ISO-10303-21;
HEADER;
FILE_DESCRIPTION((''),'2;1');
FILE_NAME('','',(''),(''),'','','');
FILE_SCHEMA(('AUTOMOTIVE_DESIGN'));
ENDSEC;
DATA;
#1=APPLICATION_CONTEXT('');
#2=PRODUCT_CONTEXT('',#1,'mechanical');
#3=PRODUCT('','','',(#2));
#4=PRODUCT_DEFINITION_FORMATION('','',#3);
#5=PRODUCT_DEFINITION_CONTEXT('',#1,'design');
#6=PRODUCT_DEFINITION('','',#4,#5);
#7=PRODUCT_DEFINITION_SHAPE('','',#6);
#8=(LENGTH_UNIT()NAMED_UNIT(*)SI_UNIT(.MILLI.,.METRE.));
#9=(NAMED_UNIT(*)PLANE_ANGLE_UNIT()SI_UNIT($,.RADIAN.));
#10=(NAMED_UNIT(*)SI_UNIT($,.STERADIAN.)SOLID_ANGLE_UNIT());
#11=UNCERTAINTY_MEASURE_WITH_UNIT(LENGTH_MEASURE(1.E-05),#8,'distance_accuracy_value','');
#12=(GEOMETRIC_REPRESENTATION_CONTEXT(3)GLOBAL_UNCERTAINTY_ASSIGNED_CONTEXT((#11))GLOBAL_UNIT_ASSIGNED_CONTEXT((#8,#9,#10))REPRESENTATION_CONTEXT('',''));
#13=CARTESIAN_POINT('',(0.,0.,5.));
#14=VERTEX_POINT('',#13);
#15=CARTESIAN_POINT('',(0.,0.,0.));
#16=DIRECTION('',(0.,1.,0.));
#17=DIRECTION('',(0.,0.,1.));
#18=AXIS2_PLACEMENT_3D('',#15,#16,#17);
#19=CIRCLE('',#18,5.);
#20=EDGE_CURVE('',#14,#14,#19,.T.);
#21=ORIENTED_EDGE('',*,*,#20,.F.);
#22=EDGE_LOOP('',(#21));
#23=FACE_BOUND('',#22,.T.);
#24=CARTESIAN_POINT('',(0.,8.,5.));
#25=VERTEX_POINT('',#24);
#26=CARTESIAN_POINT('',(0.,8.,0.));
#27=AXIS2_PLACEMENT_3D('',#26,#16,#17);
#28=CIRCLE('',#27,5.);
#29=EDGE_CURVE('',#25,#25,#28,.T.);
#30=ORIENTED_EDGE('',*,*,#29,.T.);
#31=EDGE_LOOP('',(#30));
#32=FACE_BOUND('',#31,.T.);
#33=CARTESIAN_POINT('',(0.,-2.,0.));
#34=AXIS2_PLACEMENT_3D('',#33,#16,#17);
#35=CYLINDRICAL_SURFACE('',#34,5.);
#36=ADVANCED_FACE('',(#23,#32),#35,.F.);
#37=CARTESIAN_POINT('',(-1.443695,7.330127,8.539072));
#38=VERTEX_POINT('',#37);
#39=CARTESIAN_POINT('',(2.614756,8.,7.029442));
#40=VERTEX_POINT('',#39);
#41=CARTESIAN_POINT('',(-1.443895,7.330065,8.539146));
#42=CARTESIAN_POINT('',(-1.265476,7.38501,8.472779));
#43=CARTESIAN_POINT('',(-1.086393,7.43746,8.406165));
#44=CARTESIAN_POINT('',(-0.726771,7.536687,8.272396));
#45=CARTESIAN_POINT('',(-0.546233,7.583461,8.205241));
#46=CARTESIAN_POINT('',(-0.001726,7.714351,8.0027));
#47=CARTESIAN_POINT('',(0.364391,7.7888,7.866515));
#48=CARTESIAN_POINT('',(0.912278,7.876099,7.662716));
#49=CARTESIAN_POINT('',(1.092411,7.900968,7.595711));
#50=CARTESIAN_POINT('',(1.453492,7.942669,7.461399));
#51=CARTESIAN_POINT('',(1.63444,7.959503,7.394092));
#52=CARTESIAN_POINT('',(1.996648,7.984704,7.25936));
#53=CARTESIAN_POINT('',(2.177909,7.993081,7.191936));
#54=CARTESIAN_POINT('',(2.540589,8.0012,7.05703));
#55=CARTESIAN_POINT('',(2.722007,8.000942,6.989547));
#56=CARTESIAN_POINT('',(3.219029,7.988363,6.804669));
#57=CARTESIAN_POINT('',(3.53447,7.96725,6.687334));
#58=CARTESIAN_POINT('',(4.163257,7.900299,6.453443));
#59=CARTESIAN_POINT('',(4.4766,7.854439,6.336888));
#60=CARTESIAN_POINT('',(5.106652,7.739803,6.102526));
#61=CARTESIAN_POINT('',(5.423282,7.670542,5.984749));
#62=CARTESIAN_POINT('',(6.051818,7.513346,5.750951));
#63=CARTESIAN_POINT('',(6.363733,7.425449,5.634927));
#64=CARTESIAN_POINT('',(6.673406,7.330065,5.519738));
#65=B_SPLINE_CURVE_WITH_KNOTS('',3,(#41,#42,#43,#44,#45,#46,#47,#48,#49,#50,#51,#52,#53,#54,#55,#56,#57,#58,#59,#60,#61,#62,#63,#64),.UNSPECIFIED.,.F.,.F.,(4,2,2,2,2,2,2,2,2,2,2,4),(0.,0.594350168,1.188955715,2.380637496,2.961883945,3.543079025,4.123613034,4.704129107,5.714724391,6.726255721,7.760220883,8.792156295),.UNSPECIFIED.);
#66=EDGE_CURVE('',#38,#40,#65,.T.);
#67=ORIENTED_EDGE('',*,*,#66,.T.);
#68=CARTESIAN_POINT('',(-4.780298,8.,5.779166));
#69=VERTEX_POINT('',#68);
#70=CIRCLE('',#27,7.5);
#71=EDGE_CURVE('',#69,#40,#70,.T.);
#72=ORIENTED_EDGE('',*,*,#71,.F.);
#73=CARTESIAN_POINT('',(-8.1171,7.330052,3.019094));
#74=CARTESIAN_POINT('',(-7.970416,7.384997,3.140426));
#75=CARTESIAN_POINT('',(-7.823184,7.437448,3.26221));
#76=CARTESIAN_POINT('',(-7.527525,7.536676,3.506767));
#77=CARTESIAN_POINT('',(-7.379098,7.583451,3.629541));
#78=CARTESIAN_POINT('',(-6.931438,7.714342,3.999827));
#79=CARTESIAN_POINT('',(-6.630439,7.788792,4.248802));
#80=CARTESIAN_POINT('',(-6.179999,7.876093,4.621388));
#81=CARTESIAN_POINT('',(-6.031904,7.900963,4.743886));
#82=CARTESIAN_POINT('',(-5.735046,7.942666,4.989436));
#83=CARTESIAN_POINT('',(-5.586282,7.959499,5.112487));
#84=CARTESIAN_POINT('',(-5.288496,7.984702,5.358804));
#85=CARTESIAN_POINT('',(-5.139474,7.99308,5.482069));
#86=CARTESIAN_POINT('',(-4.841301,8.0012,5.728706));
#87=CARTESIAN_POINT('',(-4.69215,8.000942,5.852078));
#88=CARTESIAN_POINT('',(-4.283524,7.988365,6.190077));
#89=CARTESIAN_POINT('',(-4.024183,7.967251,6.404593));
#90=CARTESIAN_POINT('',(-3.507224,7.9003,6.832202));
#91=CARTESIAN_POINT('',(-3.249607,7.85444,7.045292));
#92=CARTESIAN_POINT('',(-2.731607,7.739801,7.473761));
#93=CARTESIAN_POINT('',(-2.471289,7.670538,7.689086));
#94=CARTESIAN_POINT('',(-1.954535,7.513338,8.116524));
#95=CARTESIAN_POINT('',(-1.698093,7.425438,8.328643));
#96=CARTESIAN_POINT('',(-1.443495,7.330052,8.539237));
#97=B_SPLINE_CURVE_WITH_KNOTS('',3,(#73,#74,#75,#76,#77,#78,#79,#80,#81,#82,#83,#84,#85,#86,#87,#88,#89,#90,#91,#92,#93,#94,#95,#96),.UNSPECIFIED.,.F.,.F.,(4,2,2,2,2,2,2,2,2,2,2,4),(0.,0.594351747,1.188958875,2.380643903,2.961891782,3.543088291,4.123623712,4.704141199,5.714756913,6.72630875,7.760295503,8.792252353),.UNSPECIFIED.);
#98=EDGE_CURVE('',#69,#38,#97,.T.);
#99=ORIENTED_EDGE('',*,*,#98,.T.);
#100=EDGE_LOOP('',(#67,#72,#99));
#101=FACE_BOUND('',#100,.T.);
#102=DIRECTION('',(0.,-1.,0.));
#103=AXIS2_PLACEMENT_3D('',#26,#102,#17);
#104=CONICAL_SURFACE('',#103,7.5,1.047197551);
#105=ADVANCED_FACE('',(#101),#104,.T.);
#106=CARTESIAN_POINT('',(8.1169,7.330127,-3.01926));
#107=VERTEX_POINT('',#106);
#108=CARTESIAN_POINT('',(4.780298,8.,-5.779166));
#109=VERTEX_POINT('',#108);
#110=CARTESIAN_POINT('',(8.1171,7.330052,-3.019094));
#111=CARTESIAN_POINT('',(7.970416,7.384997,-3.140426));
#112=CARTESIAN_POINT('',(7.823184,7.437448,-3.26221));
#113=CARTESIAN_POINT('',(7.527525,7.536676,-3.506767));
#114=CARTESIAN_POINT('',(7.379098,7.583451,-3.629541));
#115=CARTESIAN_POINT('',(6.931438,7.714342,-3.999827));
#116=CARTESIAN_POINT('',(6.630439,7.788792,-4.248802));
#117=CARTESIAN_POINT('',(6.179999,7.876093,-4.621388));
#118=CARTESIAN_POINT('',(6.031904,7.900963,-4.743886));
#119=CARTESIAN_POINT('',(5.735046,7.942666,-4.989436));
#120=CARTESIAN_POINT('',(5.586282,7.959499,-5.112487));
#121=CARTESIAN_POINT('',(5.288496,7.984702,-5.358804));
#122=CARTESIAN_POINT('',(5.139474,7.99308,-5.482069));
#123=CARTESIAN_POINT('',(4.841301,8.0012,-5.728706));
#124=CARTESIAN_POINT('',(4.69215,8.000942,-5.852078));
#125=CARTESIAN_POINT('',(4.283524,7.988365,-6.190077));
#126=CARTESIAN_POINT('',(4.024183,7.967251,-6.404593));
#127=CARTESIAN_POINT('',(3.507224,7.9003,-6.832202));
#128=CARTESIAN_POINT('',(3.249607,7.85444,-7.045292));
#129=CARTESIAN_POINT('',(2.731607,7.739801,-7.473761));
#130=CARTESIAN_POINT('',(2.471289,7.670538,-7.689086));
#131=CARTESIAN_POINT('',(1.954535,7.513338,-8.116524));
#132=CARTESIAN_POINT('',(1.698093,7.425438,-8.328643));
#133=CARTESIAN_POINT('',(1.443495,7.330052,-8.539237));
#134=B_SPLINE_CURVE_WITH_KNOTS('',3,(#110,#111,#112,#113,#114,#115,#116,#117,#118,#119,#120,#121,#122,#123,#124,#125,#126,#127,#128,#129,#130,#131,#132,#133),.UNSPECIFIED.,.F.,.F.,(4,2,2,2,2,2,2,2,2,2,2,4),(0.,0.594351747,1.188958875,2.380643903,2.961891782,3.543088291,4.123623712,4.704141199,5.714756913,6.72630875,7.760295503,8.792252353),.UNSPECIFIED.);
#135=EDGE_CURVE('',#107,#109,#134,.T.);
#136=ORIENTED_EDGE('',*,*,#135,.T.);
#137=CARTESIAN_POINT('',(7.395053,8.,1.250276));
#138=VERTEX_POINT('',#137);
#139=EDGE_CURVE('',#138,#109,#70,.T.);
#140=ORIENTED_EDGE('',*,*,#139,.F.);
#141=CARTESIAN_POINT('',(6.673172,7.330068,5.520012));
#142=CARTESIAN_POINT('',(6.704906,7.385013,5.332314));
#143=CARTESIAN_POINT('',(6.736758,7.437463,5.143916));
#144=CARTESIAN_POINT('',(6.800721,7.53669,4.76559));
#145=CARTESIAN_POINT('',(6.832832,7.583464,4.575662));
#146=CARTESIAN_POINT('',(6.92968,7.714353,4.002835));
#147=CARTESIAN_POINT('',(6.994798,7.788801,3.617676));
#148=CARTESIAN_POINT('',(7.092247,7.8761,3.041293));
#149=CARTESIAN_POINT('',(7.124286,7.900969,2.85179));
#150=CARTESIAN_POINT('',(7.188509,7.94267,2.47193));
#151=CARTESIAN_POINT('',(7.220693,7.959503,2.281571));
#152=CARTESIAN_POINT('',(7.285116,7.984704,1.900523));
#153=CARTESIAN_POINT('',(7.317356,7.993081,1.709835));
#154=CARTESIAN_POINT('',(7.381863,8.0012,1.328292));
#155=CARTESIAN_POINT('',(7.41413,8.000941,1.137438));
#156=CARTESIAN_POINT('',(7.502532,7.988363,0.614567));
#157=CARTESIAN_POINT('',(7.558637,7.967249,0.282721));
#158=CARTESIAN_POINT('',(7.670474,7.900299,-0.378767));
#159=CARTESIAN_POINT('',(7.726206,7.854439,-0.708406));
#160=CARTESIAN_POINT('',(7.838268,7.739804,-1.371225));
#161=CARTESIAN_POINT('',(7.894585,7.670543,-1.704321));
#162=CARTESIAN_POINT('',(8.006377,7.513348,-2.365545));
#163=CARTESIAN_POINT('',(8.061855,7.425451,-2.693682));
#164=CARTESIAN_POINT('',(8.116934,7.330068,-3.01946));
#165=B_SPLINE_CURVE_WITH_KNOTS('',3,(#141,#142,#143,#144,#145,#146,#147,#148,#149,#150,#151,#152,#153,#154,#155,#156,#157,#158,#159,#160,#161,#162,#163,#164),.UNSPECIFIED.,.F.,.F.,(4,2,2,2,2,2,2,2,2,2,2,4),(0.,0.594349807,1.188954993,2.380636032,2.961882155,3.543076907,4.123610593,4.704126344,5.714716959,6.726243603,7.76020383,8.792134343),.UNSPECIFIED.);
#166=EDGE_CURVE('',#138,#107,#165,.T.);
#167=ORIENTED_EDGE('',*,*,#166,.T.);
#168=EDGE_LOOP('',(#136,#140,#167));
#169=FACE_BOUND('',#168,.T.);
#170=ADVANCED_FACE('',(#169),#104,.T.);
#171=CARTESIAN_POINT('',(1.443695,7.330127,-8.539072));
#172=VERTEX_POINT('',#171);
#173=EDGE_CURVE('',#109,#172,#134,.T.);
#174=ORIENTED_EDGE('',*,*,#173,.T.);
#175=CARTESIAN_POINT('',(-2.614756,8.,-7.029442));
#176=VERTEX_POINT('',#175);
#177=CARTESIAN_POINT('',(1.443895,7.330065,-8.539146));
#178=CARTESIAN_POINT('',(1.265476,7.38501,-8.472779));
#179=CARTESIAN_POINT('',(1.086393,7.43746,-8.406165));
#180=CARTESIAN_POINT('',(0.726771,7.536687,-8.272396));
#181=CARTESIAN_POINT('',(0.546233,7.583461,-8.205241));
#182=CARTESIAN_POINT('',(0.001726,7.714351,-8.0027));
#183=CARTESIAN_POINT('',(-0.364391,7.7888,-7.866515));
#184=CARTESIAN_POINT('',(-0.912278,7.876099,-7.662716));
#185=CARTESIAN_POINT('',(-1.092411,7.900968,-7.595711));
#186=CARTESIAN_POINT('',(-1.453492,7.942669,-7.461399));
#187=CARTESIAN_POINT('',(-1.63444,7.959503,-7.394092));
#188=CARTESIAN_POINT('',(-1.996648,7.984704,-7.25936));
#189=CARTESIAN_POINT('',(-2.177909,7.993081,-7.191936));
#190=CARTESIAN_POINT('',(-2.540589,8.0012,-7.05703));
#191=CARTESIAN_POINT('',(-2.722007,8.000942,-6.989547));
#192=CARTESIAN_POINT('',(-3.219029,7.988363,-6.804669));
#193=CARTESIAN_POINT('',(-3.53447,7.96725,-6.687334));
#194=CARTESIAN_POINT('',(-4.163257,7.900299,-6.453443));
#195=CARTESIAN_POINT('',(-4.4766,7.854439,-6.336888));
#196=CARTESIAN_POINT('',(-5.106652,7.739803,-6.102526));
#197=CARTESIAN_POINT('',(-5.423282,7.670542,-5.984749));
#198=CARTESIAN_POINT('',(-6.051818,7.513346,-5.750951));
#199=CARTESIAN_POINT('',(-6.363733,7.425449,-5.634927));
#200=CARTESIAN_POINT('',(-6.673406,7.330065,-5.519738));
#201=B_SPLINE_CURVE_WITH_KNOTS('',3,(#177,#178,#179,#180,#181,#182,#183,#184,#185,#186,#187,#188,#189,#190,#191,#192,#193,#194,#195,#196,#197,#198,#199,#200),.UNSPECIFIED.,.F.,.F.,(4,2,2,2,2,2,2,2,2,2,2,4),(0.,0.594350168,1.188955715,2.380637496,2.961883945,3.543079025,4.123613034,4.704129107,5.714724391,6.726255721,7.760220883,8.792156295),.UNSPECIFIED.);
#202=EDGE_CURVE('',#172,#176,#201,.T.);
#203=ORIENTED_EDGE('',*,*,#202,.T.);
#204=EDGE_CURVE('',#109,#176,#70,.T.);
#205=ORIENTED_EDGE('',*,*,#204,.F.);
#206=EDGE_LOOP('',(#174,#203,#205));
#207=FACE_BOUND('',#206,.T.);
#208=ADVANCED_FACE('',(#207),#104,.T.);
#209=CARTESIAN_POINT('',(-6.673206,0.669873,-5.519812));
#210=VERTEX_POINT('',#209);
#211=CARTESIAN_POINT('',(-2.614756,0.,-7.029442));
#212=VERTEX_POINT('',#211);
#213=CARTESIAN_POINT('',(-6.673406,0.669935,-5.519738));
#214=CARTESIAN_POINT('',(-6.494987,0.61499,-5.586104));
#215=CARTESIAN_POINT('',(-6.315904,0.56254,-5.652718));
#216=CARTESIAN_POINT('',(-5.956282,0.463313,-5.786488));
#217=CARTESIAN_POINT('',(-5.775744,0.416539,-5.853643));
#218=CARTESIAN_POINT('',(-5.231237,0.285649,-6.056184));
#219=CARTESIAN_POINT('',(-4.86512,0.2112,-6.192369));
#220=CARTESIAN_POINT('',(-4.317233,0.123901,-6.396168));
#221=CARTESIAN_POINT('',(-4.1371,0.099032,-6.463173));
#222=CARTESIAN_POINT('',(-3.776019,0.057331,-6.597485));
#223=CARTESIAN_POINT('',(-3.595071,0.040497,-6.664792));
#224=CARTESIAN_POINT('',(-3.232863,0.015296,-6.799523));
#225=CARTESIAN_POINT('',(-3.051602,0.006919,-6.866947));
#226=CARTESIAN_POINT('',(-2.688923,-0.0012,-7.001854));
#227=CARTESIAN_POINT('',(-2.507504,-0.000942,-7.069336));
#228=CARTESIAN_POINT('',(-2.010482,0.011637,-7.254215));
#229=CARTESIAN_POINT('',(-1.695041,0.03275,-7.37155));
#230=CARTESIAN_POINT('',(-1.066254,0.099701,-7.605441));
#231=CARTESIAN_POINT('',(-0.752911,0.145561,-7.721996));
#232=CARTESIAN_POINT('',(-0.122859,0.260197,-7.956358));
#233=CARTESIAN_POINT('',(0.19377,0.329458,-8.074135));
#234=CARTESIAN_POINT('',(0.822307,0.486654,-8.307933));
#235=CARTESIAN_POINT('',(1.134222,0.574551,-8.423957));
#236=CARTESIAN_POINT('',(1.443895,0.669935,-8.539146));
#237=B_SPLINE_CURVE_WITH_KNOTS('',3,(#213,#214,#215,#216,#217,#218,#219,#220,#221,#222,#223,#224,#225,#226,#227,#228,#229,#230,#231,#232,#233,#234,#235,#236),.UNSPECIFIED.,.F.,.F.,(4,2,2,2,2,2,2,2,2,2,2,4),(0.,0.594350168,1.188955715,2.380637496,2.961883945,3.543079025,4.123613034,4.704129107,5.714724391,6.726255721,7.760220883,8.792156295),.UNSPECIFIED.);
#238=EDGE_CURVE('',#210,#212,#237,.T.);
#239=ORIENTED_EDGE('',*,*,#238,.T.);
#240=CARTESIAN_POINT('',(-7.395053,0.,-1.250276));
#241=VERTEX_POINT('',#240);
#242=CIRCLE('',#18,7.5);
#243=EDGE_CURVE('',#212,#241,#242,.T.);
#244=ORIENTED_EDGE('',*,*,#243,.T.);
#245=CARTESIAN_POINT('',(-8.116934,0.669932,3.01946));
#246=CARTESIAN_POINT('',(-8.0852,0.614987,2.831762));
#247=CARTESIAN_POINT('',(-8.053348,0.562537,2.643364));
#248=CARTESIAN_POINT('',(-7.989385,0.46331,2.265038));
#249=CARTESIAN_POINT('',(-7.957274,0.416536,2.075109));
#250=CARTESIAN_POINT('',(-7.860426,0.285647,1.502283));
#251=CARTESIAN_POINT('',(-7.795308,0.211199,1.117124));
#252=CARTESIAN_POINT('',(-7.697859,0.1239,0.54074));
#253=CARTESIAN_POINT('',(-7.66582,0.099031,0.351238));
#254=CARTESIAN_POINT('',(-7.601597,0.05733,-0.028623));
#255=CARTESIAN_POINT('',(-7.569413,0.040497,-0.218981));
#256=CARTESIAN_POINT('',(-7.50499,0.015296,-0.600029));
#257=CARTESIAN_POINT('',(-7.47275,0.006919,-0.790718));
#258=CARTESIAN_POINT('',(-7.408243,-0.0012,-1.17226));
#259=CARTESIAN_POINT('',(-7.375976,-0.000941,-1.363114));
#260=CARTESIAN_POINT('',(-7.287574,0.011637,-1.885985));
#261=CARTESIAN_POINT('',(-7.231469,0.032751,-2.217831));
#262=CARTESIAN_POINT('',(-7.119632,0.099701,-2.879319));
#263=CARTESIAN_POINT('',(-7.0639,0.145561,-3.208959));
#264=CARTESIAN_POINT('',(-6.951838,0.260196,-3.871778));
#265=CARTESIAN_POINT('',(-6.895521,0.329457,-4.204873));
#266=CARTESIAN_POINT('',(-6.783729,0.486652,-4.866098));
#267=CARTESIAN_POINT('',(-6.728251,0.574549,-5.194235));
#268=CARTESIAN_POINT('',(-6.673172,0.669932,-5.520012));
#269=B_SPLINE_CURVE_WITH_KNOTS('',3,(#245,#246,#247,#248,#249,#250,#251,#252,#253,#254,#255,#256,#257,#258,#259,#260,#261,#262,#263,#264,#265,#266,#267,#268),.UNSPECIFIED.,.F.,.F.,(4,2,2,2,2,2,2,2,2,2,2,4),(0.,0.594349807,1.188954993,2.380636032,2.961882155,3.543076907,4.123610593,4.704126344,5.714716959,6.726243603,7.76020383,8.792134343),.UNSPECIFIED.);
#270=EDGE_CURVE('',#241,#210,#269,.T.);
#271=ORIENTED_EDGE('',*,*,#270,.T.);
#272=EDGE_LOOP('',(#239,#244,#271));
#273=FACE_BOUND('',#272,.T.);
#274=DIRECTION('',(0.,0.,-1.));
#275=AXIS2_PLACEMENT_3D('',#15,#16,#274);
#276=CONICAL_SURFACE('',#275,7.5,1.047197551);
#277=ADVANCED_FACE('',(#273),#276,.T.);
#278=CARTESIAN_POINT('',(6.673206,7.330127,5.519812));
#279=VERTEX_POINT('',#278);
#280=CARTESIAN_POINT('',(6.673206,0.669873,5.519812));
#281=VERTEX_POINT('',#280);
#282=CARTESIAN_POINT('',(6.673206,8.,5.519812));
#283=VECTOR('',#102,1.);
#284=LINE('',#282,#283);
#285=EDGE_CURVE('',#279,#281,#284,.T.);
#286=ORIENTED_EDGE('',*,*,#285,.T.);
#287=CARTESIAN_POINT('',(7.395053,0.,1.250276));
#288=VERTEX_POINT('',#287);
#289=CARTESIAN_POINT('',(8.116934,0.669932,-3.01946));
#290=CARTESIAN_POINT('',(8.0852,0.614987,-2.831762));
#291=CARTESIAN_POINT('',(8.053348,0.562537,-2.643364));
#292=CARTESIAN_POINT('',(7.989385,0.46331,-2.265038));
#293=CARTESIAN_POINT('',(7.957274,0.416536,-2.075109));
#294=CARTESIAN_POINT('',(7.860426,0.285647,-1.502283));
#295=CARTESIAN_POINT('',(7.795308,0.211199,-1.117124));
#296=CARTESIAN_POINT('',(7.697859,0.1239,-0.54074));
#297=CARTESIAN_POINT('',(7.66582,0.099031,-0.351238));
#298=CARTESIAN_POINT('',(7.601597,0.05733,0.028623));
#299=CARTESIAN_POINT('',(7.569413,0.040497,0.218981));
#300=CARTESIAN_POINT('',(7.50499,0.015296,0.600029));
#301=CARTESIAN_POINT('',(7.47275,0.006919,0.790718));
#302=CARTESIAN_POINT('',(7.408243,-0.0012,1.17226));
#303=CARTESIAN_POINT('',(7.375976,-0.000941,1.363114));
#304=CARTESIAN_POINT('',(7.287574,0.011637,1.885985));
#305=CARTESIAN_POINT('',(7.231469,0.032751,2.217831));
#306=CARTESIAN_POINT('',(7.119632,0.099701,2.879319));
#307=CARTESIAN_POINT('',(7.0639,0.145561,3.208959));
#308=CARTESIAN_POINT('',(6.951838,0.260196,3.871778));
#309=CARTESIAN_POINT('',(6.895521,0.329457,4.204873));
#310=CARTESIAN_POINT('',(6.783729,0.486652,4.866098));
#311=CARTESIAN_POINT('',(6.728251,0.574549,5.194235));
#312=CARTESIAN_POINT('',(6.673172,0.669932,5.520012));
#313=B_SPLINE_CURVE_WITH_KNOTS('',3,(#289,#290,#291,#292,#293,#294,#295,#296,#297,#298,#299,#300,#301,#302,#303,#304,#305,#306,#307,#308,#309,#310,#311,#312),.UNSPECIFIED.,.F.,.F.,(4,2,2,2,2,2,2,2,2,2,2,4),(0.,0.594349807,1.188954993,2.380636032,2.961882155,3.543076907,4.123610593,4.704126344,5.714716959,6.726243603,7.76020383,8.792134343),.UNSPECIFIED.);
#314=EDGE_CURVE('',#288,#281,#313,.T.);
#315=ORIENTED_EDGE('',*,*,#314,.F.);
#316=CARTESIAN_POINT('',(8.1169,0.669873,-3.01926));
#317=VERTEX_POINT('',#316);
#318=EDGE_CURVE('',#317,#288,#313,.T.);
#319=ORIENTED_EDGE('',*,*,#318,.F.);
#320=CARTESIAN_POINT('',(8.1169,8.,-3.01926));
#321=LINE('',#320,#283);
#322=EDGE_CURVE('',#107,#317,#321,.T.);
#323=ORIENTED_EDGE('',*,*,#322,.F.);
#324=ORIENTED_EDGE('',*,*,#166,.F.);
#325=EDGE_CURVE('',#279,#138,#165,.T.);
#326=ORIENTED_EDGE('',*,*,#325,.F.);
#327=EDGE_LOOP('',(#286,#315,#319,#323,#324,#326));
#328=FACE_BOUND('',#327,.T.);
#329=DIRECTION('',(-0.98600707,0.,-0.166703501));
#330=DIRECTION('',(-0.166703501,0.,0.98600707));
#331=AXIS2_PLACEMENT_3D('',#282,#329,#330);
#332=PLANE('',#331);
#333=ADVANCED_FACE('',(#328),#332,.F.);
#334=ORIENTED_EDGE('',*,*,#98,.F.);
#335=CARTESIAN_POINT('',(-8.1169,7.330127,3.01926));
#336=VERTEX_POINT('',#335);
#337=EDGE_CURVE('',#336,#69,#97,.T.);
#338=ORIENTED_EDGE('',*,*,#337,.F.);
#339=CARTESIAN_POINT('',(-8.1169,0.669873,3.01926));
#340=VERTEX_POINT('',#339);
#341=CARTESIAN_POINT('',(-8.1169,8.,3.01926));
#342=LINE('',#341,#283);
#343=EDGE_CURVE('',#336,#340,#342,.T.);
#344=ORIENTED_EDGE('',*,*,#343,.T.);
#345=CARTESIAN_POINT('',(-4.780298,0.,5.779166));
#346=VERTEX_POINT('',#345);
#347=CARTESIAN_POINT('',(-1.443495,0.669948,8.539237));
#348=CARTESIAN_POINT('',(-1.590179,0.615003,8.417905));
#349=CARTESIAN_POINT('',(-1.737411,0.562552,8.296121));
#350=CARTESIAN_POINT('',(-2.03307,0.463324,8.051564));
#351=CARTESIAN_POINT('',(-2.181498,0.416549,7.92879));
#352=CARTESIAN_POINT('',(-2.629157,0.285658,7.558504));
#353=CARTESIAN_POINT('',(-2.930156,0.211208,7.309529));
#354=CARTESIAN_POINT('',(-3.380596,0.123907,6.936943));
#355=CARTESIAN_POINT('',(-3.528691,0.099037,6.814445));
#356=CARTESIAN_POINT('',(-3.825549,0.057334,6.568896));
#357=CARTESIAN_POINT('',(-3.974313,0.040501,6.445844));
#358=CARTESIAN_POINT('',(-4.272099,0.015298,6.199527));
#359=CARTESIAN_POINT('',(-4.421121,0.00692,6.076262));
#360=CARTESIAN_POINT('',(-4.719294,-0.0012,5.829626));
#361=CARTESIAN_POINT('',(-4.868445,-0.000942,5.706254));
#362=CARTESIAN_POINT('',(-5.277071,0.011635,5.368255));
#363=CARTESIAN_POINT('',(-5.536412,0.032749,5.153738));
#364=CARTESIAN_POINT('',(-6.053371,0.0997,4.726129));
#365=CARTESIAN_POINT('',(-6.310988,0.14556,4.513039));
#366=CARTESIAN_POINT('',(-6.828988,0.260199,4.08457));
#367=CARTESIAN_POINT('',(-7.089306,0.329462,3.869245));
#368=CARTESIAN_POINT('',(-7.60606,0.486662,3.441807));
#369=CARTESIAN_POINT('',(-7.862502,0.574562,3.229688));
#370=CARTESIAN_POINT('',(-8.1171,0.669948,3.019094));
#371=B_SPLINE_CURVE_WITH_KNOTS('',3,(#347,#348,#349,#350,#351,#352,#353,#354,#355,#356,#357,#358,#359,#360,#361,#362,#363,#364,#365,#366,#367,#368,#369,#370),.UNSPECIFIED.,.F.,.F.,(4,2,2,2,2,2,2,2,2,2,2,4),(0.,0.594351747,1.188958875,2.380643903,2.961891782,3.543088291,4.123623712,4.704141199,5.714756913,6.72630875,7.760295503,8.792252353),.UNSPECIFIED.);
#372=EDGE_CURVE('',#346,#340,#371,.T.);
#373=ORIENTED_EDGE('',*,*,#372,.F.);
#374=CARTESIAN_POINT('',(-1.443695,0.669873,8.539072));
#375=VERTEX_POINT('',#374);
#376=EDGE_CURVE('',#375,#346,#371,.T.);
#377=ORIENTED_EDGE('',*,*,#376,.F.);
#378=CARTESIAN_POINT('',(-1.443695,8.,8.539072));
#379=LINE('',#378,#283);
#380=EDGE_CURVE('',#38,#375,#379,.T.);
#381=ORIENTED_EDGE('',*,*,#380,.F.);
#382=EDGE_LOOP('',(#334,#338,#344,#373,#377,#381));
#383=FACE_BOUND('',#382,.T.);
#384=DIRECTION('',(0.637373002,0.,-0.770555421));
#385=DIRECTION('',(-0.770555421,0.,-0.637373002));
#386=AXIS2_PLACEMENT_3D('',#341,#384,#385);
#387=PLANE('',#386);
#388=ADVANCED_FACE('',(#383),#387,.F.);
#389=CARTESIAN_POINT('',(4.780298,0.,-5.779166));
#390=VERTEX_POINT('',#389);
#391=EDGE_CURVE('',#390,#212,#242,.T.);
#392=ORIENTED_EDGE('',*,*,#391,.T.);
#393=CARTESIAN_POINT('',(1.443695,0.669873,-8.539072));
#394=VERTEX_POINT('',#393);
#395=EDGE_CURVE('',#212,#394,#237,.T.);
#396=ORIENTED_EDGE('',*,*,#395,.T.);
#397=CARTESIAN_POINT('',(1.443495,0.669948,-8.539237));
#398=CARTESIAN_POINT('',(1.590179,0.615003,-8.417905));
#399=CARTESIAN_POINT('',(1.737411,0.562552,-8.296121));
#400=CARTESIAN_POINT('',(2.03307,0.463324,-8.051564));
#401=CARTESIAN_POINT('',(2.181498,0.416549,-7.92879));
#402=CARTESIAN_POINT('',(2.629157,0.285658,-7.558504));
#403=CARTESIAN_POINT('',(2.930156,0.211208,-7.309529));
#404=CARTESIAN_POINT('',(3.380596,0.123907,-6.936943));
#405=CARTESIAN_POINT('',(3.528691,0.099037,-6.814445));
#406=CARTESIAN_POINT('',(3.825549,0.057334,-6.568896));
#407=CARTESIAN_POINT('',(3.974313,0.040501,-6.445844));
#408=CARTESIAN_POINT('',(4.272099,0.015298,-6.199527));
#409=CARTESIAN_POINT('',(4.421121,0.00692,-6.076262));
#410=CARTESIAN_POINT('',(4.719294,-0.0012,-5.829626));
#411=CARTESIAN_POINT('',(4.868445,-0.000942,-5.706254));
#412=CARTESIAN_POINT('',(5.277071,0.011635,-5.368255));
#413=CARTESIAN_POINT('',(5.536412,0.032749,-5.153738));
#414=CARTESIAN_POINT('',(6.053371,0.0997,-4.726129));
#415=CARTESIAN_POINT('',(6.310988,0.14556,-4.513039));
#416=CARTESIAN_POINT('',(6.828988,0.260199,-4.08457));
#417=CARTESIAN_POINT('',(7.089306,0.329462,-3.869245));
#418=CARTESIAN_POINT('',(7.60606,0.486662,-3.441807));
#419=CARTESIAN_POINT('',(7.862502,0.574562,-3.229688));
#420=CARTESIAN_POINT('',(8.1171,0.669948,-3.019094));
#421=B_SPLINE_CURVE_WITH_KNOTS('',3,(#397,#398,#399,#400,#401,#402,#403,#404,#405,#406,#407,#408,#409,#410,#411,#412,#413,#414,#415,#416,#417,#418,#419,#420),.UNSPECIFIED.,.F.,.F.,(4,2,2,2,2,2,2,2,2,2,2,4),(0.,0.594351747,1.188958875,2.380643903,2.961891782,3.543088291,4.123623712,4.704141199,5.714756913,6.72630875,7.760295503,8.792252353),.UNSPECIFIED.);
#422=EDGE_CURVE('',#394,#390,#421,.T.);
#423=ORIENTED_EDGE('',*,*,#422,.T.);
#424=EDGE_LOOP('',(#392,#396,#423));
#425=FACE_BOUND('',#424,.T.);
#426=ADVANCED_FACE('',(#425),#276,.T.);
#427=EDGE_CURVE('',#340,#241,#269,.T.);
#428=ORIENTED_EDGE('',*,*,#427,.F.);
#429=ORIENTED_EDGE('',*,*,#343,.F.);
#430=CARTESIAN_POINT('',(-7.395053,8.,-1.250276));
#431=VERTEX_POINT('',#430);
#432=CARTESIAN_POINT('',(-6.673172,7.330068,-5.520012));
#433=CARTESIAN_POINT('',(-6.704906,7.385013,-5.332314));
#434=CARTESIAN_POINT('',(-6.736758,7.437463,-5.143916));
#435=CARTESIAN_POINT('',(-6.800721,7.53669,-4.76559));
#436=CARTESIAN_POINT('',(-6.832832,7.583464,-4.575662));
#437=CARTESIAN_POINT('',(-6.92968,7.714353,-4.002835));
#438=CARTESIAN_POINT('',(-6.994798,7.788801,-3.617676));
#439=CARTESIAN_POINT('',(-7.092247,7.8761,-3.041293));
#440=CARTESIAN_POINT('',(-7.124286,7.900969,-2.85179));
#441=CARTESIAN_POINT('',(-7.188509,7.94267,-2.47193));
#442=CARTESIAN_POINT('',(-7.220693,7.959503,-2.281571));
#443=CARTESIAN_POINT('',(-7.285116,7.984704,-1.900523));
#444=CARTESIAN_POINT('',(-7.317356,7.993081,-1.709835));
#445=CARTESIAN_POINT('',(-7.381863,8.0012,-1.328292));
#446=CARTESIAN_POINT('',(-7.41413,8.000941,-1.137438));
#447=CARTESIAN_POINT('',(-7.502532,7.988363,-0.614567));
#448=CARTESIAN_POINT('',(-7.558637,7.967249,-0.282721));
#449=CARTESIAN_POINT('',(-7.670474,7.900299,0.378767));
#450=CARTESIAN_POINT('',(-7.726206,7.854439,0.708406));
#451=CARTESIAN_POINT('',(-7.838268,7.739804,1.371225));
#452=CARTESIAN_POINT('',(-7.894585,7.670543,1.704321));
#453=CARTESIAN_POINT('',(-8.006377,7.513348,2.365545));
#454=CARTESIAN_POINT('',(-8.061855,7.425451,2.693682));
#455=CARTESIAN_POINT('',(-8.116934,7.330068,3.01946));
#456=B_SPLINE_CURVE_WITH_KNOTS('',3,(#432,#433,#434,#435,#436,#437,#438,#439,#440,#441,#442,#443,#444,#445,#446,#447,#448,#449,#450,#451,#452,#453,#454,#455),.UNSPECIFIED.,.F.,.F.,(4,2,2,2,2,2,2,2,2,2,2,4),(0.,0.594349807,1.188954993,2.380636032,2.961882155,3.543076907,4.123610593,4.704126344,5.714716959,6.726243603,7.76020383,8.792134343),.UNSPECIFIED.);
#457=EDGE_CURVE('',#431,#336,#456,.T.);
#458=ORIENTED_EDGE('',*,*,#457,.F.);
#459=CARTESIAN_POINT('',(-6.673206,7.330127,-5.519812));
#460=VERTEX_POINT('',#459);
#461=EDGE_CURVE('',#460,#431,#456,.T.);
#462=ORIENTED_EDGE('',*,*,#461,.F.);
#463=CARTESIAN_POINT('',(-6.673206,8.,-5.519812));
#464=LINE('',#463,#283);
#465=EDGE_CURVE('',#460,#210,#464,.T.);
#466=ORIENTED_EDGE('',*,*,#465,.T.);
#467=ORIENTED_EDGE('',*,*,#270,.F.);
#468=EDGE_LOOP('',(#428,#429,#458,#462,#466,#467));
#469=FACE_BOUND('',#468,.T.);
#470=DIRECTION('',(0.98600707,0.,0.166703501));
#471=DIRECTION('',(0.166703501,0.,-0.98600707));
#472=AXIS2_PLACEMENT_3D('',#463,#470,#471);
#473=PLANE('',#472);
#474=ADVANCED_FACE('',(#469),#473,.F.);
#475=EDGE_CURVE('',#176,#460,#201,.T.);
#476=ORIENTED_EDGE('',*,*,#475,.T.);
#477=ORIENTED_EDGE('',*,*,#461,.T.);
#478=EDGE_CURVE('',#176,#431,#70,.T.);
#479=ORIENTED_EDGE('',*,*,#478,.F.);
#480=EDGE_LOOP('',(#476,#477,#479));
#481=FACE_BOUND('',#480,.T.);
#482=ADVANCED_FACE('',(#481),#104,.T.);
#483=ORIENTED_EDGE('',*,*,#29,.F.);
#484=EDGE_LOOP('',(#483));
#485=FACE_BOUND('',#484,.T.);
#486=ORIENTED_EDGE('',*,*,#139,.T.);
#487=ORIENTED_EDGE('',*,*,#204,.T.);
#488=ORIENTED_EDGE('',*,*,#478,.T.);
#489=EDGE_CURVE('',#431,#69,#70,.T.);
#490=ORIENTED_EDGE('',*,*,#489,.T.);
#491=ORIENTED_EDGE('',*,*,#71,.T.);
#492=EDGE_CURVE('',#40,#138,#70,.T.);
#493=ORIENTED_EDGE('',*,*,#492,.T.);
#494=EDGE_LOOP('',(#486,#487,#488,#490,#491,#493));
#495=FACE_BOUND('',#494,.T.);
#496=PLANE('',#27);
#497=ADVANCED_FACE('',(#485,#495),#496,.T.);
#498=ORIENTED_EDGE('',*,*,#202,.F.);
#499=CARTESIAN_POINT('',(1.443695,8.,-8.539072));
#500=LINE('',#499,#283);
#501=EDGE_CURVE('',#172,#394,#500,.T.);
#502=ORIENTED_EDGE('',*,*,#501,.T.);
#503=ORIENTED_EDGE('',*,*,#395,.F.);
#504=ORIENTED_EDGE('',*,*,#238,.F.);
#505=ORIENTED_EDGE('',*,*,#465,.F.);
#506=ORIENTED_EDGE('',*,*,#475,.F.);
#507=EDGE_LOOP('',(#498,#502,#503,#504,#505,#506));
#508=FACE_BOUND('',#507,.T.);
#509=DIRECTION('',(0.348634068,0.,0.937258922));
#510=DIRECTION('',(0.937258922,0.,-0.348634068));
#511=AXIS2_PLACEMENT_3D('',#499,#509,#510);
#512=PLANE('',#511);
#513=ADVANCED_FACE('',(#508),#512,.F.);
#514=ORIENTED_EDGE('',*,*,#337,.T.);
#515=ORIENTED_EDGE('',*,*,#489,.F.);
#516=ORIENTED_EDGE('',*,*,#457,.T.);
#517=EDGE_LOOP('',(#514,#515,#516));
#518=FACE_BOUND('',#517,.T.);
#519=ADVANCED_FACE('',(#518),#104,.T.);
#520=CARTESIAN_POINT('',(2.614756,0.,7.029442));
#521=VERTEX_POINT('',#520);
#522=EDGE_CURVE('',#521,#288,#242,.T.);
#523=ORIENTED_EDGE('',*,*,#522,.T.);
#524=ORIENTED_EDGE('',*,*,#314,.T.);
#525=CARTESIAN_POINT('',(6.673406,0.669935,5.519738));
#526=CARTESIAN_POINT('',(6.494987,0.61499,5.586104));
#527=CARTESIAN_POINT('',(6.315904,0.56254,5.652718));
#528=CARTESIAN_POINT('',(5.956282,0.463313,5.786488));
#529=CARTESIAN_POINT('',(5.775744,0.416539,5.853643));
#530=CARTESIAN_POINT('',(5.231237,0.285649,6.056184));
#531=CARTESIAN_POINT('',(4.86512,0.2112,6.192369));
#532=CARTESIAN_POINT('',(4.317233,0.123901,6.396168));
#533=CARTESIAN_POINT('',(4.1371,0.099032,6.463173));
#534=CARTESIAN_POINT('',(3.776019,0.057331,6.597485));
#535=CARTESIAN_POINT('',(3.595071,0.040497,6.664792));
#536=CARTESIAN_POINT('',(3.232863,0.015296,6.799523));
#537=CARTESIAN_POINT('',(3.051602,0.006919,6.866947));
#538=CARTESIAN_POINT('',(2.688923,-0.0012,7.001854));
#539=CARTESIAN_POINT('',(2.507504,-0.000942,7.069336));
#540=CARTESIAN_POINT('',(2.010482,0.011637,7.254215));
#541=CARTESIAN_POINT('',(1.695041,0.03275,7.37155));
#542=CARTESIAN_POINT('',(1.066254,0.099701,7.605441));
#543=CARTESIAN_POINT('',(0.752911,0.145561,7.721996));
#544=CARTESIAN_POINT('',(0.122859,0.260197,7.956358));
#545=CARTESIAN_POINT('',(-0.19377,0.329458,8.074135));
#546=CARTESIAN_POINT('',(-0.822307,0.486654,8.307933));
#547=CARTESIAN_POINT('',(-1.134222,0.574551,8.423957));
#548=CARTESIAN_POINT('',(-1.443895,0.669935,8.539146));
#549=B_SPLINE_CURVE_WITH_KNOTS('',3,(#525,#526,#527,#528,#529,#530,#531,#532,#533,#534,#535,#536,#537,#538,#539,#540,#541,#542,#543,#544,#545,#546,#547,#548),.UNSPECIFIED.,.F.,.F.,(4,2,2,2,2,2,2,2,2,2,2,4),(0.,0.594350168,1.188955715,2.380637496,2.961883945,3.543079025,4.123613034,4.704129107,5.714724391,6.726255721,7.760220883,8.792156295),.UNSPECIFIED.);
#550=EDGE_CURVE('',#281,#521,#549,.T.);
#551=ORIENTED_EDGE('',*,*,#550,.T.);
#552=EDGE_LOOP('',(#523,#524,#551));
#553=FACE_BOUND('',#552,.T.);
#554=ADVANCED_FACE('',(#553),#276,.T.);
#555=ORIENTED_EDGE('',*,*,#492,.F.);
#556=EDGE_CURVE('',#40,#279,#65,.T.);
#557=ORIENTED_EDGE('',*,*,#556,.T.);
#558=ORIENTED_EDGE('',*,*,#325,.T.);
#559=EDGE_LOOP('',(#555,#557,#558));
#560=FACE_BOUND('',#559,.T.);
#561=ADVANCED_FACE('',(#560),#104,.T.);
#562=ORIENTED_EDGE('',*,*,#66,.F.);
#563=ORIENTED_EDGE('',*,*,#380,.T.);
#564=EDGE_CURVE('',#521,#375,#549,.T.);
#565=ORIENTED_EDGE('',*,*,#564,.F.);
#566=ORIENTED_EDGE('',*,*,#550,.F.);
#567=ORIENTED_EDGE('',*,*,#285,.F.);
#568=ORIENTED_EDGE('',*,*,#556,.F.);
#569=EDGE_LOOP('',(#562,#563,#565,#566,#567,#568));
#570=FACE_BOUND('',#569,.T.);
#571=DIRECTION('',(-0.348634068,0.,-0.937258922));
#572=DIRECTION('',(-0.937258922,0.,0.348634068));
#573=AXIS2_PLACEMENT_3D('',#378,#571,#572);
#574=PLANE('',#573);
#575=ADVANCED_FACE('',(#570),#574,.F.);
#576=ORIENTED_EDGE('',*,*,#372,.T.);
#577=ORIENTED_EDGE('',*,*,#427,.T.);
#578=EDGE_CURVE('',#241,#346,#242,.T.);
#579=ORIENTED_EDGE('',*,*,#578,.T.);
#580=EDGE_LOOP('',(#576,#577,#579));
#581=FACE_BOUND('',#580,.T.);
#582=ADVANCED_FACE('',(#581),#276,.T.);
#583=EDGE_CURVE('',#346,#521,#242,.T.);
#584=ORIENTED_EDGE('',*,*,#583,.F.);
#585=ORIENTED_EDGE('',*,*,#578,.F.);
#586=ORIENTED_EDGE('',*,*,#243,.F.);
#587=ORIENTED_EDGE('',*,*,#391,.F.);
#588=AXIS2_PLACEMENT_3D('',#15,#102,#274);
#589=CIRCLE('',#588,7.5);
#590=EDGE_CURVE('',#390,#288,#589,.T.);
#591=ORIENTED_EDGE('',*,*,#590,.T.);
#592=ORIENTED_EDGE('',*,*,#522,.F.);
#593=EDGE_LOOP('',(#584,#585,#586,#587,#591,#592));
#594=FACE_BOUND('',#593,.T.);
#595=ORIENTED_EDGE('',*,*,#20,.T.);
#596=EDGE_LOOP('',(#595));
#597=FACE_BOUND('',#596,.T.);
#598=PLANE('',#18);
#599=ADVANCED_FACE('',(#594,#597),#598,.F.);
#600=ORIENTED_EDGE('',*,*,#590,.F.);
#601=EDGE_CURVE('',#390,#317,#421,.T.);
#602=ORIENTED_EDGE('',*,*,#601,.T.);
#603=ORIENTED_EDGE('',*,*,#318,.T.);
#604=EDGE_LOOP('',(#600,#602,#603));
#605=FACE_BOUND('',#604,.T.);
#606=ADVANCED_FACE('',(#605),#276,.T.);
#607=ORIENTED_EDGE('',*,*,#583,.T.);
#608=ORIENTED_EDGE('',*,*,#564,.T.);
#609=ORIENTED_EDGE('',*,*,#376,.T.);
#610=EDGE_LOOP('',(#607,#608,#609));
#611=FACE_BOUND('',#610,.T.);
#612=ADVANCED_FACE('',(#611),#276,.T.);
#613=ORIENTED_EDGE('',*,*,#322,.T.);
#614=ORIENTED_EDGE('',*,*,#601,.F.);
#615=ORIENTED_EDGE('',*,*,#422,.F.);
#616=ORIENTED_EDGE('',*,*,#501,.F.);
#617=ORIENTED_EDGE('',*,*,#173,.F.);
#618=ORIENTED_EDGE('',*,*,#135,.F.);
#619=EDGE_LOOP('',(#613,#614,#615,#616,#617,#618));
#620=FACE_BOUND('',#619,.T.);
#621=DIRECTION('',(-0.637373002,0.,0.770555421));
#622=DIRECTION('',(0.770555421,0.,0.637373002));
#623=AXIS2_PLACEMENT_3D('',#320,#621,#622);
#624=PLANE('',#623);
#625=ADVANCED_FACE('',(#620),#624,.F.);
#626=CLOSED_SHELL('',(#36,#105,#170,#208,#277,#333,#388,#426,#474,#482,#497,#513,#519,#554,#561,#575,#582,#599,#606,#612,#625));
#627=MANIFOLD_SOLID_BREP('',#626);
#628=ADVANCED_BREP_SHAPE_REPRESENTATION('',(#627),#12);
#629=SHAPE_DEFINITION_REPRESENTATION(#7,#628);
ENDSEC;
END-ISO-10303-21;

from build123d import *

# Parameters (mm, degrees)
BOSS_EXTRUDE1_DEPTH = 8
SKETCH7_OUTSIDE_W   = 26.674
SKETCH7_OUTSIDE_H   = 27.518
SKETCH7_OUTSIDE_R   = 7.5
CUT_EXTRUDE4_DEPTH  = 1
CUT_EXTRUDE4_TAPER  = 60
SKETCH8_OUTSIDE_W   = 26.674
SKETCH8_OUTSIDE_H   = 27.518
SKETCH8_OUTSIDE_R   = 7.5
CUT_EXTRUDE5_DEPTH  = 1
CUT_EXTRUDE5_TAPER  = 60
SKETCH9_R           = 5
CUT_EXTRUDE6_DEPTH  = 10


with BuildPart() as part:
    # Sketch1 → Boss-Extrude1 (new body)
    with BuildSketch(Plane(origin=(0, 0, 0), x_dir=(1, 0, 0), z_dir=(0, 1, 0))):
        Polygon((6.673205692, -5.519812116), (8.116900362, 3.019259596), (1.44369467, 8.539071712), (-6.673205692, 5.519812116), (-8.116900362, -3.019259596), (-1.44369467, -8.539071712), align=None)
    extrude(amount=BOSS_EXTRUDE1_DEPTH)

    # Sketch7 outside → Cut-Extrude4 (cut)
    with BuildSketch(Plane(origin=(0, 8, 0), x_dir=(1, 0, 0), z_dir=(0, 1, 0))):
        Rectangle(SKETCH7_OUTSIDE_W, SKETCH7_OUTSIDE_H)
        Circle(SKETCH7_OUTSIDE_R, mode=Mode.SUBTRACT)
    extrude(amount=-CUT_EXTRUDE4_DEPTH, taper=CUT_EXTRUDE4_TAPER, mode=Mode.SUBTRACT)

    # Sketch8 outside → Cut-Extrude5 (cut)
    with BuildSketch(Plane.XZ):
        Rectangle(SKETCH8_OUTSIDE_W, SKETCH8_OUTSIDE_H)
        Circle(SKETCH8_OUTSIDE_R, mode=Mode.SUBTRACT)
    extrude(amount=-CUT_EXTRUDE5_DEPTH, taper=CUT_EXTRUDE5_TAPER, mode=Mode.SUBTRACT)

    # Sketch9 → Cut-Extrude6 (cut)
    with BuildSketch(Plane(origin=(0, 8, 0), x_dir=(1, 0, 0), z_dir=(0, 1, 0))):
        Circle(SKETCH9_R)
    extrude(amount=-CUT_EXTRUDE6_DEPTH, mode=Mode.SUBTRACT)


solid = part.part
